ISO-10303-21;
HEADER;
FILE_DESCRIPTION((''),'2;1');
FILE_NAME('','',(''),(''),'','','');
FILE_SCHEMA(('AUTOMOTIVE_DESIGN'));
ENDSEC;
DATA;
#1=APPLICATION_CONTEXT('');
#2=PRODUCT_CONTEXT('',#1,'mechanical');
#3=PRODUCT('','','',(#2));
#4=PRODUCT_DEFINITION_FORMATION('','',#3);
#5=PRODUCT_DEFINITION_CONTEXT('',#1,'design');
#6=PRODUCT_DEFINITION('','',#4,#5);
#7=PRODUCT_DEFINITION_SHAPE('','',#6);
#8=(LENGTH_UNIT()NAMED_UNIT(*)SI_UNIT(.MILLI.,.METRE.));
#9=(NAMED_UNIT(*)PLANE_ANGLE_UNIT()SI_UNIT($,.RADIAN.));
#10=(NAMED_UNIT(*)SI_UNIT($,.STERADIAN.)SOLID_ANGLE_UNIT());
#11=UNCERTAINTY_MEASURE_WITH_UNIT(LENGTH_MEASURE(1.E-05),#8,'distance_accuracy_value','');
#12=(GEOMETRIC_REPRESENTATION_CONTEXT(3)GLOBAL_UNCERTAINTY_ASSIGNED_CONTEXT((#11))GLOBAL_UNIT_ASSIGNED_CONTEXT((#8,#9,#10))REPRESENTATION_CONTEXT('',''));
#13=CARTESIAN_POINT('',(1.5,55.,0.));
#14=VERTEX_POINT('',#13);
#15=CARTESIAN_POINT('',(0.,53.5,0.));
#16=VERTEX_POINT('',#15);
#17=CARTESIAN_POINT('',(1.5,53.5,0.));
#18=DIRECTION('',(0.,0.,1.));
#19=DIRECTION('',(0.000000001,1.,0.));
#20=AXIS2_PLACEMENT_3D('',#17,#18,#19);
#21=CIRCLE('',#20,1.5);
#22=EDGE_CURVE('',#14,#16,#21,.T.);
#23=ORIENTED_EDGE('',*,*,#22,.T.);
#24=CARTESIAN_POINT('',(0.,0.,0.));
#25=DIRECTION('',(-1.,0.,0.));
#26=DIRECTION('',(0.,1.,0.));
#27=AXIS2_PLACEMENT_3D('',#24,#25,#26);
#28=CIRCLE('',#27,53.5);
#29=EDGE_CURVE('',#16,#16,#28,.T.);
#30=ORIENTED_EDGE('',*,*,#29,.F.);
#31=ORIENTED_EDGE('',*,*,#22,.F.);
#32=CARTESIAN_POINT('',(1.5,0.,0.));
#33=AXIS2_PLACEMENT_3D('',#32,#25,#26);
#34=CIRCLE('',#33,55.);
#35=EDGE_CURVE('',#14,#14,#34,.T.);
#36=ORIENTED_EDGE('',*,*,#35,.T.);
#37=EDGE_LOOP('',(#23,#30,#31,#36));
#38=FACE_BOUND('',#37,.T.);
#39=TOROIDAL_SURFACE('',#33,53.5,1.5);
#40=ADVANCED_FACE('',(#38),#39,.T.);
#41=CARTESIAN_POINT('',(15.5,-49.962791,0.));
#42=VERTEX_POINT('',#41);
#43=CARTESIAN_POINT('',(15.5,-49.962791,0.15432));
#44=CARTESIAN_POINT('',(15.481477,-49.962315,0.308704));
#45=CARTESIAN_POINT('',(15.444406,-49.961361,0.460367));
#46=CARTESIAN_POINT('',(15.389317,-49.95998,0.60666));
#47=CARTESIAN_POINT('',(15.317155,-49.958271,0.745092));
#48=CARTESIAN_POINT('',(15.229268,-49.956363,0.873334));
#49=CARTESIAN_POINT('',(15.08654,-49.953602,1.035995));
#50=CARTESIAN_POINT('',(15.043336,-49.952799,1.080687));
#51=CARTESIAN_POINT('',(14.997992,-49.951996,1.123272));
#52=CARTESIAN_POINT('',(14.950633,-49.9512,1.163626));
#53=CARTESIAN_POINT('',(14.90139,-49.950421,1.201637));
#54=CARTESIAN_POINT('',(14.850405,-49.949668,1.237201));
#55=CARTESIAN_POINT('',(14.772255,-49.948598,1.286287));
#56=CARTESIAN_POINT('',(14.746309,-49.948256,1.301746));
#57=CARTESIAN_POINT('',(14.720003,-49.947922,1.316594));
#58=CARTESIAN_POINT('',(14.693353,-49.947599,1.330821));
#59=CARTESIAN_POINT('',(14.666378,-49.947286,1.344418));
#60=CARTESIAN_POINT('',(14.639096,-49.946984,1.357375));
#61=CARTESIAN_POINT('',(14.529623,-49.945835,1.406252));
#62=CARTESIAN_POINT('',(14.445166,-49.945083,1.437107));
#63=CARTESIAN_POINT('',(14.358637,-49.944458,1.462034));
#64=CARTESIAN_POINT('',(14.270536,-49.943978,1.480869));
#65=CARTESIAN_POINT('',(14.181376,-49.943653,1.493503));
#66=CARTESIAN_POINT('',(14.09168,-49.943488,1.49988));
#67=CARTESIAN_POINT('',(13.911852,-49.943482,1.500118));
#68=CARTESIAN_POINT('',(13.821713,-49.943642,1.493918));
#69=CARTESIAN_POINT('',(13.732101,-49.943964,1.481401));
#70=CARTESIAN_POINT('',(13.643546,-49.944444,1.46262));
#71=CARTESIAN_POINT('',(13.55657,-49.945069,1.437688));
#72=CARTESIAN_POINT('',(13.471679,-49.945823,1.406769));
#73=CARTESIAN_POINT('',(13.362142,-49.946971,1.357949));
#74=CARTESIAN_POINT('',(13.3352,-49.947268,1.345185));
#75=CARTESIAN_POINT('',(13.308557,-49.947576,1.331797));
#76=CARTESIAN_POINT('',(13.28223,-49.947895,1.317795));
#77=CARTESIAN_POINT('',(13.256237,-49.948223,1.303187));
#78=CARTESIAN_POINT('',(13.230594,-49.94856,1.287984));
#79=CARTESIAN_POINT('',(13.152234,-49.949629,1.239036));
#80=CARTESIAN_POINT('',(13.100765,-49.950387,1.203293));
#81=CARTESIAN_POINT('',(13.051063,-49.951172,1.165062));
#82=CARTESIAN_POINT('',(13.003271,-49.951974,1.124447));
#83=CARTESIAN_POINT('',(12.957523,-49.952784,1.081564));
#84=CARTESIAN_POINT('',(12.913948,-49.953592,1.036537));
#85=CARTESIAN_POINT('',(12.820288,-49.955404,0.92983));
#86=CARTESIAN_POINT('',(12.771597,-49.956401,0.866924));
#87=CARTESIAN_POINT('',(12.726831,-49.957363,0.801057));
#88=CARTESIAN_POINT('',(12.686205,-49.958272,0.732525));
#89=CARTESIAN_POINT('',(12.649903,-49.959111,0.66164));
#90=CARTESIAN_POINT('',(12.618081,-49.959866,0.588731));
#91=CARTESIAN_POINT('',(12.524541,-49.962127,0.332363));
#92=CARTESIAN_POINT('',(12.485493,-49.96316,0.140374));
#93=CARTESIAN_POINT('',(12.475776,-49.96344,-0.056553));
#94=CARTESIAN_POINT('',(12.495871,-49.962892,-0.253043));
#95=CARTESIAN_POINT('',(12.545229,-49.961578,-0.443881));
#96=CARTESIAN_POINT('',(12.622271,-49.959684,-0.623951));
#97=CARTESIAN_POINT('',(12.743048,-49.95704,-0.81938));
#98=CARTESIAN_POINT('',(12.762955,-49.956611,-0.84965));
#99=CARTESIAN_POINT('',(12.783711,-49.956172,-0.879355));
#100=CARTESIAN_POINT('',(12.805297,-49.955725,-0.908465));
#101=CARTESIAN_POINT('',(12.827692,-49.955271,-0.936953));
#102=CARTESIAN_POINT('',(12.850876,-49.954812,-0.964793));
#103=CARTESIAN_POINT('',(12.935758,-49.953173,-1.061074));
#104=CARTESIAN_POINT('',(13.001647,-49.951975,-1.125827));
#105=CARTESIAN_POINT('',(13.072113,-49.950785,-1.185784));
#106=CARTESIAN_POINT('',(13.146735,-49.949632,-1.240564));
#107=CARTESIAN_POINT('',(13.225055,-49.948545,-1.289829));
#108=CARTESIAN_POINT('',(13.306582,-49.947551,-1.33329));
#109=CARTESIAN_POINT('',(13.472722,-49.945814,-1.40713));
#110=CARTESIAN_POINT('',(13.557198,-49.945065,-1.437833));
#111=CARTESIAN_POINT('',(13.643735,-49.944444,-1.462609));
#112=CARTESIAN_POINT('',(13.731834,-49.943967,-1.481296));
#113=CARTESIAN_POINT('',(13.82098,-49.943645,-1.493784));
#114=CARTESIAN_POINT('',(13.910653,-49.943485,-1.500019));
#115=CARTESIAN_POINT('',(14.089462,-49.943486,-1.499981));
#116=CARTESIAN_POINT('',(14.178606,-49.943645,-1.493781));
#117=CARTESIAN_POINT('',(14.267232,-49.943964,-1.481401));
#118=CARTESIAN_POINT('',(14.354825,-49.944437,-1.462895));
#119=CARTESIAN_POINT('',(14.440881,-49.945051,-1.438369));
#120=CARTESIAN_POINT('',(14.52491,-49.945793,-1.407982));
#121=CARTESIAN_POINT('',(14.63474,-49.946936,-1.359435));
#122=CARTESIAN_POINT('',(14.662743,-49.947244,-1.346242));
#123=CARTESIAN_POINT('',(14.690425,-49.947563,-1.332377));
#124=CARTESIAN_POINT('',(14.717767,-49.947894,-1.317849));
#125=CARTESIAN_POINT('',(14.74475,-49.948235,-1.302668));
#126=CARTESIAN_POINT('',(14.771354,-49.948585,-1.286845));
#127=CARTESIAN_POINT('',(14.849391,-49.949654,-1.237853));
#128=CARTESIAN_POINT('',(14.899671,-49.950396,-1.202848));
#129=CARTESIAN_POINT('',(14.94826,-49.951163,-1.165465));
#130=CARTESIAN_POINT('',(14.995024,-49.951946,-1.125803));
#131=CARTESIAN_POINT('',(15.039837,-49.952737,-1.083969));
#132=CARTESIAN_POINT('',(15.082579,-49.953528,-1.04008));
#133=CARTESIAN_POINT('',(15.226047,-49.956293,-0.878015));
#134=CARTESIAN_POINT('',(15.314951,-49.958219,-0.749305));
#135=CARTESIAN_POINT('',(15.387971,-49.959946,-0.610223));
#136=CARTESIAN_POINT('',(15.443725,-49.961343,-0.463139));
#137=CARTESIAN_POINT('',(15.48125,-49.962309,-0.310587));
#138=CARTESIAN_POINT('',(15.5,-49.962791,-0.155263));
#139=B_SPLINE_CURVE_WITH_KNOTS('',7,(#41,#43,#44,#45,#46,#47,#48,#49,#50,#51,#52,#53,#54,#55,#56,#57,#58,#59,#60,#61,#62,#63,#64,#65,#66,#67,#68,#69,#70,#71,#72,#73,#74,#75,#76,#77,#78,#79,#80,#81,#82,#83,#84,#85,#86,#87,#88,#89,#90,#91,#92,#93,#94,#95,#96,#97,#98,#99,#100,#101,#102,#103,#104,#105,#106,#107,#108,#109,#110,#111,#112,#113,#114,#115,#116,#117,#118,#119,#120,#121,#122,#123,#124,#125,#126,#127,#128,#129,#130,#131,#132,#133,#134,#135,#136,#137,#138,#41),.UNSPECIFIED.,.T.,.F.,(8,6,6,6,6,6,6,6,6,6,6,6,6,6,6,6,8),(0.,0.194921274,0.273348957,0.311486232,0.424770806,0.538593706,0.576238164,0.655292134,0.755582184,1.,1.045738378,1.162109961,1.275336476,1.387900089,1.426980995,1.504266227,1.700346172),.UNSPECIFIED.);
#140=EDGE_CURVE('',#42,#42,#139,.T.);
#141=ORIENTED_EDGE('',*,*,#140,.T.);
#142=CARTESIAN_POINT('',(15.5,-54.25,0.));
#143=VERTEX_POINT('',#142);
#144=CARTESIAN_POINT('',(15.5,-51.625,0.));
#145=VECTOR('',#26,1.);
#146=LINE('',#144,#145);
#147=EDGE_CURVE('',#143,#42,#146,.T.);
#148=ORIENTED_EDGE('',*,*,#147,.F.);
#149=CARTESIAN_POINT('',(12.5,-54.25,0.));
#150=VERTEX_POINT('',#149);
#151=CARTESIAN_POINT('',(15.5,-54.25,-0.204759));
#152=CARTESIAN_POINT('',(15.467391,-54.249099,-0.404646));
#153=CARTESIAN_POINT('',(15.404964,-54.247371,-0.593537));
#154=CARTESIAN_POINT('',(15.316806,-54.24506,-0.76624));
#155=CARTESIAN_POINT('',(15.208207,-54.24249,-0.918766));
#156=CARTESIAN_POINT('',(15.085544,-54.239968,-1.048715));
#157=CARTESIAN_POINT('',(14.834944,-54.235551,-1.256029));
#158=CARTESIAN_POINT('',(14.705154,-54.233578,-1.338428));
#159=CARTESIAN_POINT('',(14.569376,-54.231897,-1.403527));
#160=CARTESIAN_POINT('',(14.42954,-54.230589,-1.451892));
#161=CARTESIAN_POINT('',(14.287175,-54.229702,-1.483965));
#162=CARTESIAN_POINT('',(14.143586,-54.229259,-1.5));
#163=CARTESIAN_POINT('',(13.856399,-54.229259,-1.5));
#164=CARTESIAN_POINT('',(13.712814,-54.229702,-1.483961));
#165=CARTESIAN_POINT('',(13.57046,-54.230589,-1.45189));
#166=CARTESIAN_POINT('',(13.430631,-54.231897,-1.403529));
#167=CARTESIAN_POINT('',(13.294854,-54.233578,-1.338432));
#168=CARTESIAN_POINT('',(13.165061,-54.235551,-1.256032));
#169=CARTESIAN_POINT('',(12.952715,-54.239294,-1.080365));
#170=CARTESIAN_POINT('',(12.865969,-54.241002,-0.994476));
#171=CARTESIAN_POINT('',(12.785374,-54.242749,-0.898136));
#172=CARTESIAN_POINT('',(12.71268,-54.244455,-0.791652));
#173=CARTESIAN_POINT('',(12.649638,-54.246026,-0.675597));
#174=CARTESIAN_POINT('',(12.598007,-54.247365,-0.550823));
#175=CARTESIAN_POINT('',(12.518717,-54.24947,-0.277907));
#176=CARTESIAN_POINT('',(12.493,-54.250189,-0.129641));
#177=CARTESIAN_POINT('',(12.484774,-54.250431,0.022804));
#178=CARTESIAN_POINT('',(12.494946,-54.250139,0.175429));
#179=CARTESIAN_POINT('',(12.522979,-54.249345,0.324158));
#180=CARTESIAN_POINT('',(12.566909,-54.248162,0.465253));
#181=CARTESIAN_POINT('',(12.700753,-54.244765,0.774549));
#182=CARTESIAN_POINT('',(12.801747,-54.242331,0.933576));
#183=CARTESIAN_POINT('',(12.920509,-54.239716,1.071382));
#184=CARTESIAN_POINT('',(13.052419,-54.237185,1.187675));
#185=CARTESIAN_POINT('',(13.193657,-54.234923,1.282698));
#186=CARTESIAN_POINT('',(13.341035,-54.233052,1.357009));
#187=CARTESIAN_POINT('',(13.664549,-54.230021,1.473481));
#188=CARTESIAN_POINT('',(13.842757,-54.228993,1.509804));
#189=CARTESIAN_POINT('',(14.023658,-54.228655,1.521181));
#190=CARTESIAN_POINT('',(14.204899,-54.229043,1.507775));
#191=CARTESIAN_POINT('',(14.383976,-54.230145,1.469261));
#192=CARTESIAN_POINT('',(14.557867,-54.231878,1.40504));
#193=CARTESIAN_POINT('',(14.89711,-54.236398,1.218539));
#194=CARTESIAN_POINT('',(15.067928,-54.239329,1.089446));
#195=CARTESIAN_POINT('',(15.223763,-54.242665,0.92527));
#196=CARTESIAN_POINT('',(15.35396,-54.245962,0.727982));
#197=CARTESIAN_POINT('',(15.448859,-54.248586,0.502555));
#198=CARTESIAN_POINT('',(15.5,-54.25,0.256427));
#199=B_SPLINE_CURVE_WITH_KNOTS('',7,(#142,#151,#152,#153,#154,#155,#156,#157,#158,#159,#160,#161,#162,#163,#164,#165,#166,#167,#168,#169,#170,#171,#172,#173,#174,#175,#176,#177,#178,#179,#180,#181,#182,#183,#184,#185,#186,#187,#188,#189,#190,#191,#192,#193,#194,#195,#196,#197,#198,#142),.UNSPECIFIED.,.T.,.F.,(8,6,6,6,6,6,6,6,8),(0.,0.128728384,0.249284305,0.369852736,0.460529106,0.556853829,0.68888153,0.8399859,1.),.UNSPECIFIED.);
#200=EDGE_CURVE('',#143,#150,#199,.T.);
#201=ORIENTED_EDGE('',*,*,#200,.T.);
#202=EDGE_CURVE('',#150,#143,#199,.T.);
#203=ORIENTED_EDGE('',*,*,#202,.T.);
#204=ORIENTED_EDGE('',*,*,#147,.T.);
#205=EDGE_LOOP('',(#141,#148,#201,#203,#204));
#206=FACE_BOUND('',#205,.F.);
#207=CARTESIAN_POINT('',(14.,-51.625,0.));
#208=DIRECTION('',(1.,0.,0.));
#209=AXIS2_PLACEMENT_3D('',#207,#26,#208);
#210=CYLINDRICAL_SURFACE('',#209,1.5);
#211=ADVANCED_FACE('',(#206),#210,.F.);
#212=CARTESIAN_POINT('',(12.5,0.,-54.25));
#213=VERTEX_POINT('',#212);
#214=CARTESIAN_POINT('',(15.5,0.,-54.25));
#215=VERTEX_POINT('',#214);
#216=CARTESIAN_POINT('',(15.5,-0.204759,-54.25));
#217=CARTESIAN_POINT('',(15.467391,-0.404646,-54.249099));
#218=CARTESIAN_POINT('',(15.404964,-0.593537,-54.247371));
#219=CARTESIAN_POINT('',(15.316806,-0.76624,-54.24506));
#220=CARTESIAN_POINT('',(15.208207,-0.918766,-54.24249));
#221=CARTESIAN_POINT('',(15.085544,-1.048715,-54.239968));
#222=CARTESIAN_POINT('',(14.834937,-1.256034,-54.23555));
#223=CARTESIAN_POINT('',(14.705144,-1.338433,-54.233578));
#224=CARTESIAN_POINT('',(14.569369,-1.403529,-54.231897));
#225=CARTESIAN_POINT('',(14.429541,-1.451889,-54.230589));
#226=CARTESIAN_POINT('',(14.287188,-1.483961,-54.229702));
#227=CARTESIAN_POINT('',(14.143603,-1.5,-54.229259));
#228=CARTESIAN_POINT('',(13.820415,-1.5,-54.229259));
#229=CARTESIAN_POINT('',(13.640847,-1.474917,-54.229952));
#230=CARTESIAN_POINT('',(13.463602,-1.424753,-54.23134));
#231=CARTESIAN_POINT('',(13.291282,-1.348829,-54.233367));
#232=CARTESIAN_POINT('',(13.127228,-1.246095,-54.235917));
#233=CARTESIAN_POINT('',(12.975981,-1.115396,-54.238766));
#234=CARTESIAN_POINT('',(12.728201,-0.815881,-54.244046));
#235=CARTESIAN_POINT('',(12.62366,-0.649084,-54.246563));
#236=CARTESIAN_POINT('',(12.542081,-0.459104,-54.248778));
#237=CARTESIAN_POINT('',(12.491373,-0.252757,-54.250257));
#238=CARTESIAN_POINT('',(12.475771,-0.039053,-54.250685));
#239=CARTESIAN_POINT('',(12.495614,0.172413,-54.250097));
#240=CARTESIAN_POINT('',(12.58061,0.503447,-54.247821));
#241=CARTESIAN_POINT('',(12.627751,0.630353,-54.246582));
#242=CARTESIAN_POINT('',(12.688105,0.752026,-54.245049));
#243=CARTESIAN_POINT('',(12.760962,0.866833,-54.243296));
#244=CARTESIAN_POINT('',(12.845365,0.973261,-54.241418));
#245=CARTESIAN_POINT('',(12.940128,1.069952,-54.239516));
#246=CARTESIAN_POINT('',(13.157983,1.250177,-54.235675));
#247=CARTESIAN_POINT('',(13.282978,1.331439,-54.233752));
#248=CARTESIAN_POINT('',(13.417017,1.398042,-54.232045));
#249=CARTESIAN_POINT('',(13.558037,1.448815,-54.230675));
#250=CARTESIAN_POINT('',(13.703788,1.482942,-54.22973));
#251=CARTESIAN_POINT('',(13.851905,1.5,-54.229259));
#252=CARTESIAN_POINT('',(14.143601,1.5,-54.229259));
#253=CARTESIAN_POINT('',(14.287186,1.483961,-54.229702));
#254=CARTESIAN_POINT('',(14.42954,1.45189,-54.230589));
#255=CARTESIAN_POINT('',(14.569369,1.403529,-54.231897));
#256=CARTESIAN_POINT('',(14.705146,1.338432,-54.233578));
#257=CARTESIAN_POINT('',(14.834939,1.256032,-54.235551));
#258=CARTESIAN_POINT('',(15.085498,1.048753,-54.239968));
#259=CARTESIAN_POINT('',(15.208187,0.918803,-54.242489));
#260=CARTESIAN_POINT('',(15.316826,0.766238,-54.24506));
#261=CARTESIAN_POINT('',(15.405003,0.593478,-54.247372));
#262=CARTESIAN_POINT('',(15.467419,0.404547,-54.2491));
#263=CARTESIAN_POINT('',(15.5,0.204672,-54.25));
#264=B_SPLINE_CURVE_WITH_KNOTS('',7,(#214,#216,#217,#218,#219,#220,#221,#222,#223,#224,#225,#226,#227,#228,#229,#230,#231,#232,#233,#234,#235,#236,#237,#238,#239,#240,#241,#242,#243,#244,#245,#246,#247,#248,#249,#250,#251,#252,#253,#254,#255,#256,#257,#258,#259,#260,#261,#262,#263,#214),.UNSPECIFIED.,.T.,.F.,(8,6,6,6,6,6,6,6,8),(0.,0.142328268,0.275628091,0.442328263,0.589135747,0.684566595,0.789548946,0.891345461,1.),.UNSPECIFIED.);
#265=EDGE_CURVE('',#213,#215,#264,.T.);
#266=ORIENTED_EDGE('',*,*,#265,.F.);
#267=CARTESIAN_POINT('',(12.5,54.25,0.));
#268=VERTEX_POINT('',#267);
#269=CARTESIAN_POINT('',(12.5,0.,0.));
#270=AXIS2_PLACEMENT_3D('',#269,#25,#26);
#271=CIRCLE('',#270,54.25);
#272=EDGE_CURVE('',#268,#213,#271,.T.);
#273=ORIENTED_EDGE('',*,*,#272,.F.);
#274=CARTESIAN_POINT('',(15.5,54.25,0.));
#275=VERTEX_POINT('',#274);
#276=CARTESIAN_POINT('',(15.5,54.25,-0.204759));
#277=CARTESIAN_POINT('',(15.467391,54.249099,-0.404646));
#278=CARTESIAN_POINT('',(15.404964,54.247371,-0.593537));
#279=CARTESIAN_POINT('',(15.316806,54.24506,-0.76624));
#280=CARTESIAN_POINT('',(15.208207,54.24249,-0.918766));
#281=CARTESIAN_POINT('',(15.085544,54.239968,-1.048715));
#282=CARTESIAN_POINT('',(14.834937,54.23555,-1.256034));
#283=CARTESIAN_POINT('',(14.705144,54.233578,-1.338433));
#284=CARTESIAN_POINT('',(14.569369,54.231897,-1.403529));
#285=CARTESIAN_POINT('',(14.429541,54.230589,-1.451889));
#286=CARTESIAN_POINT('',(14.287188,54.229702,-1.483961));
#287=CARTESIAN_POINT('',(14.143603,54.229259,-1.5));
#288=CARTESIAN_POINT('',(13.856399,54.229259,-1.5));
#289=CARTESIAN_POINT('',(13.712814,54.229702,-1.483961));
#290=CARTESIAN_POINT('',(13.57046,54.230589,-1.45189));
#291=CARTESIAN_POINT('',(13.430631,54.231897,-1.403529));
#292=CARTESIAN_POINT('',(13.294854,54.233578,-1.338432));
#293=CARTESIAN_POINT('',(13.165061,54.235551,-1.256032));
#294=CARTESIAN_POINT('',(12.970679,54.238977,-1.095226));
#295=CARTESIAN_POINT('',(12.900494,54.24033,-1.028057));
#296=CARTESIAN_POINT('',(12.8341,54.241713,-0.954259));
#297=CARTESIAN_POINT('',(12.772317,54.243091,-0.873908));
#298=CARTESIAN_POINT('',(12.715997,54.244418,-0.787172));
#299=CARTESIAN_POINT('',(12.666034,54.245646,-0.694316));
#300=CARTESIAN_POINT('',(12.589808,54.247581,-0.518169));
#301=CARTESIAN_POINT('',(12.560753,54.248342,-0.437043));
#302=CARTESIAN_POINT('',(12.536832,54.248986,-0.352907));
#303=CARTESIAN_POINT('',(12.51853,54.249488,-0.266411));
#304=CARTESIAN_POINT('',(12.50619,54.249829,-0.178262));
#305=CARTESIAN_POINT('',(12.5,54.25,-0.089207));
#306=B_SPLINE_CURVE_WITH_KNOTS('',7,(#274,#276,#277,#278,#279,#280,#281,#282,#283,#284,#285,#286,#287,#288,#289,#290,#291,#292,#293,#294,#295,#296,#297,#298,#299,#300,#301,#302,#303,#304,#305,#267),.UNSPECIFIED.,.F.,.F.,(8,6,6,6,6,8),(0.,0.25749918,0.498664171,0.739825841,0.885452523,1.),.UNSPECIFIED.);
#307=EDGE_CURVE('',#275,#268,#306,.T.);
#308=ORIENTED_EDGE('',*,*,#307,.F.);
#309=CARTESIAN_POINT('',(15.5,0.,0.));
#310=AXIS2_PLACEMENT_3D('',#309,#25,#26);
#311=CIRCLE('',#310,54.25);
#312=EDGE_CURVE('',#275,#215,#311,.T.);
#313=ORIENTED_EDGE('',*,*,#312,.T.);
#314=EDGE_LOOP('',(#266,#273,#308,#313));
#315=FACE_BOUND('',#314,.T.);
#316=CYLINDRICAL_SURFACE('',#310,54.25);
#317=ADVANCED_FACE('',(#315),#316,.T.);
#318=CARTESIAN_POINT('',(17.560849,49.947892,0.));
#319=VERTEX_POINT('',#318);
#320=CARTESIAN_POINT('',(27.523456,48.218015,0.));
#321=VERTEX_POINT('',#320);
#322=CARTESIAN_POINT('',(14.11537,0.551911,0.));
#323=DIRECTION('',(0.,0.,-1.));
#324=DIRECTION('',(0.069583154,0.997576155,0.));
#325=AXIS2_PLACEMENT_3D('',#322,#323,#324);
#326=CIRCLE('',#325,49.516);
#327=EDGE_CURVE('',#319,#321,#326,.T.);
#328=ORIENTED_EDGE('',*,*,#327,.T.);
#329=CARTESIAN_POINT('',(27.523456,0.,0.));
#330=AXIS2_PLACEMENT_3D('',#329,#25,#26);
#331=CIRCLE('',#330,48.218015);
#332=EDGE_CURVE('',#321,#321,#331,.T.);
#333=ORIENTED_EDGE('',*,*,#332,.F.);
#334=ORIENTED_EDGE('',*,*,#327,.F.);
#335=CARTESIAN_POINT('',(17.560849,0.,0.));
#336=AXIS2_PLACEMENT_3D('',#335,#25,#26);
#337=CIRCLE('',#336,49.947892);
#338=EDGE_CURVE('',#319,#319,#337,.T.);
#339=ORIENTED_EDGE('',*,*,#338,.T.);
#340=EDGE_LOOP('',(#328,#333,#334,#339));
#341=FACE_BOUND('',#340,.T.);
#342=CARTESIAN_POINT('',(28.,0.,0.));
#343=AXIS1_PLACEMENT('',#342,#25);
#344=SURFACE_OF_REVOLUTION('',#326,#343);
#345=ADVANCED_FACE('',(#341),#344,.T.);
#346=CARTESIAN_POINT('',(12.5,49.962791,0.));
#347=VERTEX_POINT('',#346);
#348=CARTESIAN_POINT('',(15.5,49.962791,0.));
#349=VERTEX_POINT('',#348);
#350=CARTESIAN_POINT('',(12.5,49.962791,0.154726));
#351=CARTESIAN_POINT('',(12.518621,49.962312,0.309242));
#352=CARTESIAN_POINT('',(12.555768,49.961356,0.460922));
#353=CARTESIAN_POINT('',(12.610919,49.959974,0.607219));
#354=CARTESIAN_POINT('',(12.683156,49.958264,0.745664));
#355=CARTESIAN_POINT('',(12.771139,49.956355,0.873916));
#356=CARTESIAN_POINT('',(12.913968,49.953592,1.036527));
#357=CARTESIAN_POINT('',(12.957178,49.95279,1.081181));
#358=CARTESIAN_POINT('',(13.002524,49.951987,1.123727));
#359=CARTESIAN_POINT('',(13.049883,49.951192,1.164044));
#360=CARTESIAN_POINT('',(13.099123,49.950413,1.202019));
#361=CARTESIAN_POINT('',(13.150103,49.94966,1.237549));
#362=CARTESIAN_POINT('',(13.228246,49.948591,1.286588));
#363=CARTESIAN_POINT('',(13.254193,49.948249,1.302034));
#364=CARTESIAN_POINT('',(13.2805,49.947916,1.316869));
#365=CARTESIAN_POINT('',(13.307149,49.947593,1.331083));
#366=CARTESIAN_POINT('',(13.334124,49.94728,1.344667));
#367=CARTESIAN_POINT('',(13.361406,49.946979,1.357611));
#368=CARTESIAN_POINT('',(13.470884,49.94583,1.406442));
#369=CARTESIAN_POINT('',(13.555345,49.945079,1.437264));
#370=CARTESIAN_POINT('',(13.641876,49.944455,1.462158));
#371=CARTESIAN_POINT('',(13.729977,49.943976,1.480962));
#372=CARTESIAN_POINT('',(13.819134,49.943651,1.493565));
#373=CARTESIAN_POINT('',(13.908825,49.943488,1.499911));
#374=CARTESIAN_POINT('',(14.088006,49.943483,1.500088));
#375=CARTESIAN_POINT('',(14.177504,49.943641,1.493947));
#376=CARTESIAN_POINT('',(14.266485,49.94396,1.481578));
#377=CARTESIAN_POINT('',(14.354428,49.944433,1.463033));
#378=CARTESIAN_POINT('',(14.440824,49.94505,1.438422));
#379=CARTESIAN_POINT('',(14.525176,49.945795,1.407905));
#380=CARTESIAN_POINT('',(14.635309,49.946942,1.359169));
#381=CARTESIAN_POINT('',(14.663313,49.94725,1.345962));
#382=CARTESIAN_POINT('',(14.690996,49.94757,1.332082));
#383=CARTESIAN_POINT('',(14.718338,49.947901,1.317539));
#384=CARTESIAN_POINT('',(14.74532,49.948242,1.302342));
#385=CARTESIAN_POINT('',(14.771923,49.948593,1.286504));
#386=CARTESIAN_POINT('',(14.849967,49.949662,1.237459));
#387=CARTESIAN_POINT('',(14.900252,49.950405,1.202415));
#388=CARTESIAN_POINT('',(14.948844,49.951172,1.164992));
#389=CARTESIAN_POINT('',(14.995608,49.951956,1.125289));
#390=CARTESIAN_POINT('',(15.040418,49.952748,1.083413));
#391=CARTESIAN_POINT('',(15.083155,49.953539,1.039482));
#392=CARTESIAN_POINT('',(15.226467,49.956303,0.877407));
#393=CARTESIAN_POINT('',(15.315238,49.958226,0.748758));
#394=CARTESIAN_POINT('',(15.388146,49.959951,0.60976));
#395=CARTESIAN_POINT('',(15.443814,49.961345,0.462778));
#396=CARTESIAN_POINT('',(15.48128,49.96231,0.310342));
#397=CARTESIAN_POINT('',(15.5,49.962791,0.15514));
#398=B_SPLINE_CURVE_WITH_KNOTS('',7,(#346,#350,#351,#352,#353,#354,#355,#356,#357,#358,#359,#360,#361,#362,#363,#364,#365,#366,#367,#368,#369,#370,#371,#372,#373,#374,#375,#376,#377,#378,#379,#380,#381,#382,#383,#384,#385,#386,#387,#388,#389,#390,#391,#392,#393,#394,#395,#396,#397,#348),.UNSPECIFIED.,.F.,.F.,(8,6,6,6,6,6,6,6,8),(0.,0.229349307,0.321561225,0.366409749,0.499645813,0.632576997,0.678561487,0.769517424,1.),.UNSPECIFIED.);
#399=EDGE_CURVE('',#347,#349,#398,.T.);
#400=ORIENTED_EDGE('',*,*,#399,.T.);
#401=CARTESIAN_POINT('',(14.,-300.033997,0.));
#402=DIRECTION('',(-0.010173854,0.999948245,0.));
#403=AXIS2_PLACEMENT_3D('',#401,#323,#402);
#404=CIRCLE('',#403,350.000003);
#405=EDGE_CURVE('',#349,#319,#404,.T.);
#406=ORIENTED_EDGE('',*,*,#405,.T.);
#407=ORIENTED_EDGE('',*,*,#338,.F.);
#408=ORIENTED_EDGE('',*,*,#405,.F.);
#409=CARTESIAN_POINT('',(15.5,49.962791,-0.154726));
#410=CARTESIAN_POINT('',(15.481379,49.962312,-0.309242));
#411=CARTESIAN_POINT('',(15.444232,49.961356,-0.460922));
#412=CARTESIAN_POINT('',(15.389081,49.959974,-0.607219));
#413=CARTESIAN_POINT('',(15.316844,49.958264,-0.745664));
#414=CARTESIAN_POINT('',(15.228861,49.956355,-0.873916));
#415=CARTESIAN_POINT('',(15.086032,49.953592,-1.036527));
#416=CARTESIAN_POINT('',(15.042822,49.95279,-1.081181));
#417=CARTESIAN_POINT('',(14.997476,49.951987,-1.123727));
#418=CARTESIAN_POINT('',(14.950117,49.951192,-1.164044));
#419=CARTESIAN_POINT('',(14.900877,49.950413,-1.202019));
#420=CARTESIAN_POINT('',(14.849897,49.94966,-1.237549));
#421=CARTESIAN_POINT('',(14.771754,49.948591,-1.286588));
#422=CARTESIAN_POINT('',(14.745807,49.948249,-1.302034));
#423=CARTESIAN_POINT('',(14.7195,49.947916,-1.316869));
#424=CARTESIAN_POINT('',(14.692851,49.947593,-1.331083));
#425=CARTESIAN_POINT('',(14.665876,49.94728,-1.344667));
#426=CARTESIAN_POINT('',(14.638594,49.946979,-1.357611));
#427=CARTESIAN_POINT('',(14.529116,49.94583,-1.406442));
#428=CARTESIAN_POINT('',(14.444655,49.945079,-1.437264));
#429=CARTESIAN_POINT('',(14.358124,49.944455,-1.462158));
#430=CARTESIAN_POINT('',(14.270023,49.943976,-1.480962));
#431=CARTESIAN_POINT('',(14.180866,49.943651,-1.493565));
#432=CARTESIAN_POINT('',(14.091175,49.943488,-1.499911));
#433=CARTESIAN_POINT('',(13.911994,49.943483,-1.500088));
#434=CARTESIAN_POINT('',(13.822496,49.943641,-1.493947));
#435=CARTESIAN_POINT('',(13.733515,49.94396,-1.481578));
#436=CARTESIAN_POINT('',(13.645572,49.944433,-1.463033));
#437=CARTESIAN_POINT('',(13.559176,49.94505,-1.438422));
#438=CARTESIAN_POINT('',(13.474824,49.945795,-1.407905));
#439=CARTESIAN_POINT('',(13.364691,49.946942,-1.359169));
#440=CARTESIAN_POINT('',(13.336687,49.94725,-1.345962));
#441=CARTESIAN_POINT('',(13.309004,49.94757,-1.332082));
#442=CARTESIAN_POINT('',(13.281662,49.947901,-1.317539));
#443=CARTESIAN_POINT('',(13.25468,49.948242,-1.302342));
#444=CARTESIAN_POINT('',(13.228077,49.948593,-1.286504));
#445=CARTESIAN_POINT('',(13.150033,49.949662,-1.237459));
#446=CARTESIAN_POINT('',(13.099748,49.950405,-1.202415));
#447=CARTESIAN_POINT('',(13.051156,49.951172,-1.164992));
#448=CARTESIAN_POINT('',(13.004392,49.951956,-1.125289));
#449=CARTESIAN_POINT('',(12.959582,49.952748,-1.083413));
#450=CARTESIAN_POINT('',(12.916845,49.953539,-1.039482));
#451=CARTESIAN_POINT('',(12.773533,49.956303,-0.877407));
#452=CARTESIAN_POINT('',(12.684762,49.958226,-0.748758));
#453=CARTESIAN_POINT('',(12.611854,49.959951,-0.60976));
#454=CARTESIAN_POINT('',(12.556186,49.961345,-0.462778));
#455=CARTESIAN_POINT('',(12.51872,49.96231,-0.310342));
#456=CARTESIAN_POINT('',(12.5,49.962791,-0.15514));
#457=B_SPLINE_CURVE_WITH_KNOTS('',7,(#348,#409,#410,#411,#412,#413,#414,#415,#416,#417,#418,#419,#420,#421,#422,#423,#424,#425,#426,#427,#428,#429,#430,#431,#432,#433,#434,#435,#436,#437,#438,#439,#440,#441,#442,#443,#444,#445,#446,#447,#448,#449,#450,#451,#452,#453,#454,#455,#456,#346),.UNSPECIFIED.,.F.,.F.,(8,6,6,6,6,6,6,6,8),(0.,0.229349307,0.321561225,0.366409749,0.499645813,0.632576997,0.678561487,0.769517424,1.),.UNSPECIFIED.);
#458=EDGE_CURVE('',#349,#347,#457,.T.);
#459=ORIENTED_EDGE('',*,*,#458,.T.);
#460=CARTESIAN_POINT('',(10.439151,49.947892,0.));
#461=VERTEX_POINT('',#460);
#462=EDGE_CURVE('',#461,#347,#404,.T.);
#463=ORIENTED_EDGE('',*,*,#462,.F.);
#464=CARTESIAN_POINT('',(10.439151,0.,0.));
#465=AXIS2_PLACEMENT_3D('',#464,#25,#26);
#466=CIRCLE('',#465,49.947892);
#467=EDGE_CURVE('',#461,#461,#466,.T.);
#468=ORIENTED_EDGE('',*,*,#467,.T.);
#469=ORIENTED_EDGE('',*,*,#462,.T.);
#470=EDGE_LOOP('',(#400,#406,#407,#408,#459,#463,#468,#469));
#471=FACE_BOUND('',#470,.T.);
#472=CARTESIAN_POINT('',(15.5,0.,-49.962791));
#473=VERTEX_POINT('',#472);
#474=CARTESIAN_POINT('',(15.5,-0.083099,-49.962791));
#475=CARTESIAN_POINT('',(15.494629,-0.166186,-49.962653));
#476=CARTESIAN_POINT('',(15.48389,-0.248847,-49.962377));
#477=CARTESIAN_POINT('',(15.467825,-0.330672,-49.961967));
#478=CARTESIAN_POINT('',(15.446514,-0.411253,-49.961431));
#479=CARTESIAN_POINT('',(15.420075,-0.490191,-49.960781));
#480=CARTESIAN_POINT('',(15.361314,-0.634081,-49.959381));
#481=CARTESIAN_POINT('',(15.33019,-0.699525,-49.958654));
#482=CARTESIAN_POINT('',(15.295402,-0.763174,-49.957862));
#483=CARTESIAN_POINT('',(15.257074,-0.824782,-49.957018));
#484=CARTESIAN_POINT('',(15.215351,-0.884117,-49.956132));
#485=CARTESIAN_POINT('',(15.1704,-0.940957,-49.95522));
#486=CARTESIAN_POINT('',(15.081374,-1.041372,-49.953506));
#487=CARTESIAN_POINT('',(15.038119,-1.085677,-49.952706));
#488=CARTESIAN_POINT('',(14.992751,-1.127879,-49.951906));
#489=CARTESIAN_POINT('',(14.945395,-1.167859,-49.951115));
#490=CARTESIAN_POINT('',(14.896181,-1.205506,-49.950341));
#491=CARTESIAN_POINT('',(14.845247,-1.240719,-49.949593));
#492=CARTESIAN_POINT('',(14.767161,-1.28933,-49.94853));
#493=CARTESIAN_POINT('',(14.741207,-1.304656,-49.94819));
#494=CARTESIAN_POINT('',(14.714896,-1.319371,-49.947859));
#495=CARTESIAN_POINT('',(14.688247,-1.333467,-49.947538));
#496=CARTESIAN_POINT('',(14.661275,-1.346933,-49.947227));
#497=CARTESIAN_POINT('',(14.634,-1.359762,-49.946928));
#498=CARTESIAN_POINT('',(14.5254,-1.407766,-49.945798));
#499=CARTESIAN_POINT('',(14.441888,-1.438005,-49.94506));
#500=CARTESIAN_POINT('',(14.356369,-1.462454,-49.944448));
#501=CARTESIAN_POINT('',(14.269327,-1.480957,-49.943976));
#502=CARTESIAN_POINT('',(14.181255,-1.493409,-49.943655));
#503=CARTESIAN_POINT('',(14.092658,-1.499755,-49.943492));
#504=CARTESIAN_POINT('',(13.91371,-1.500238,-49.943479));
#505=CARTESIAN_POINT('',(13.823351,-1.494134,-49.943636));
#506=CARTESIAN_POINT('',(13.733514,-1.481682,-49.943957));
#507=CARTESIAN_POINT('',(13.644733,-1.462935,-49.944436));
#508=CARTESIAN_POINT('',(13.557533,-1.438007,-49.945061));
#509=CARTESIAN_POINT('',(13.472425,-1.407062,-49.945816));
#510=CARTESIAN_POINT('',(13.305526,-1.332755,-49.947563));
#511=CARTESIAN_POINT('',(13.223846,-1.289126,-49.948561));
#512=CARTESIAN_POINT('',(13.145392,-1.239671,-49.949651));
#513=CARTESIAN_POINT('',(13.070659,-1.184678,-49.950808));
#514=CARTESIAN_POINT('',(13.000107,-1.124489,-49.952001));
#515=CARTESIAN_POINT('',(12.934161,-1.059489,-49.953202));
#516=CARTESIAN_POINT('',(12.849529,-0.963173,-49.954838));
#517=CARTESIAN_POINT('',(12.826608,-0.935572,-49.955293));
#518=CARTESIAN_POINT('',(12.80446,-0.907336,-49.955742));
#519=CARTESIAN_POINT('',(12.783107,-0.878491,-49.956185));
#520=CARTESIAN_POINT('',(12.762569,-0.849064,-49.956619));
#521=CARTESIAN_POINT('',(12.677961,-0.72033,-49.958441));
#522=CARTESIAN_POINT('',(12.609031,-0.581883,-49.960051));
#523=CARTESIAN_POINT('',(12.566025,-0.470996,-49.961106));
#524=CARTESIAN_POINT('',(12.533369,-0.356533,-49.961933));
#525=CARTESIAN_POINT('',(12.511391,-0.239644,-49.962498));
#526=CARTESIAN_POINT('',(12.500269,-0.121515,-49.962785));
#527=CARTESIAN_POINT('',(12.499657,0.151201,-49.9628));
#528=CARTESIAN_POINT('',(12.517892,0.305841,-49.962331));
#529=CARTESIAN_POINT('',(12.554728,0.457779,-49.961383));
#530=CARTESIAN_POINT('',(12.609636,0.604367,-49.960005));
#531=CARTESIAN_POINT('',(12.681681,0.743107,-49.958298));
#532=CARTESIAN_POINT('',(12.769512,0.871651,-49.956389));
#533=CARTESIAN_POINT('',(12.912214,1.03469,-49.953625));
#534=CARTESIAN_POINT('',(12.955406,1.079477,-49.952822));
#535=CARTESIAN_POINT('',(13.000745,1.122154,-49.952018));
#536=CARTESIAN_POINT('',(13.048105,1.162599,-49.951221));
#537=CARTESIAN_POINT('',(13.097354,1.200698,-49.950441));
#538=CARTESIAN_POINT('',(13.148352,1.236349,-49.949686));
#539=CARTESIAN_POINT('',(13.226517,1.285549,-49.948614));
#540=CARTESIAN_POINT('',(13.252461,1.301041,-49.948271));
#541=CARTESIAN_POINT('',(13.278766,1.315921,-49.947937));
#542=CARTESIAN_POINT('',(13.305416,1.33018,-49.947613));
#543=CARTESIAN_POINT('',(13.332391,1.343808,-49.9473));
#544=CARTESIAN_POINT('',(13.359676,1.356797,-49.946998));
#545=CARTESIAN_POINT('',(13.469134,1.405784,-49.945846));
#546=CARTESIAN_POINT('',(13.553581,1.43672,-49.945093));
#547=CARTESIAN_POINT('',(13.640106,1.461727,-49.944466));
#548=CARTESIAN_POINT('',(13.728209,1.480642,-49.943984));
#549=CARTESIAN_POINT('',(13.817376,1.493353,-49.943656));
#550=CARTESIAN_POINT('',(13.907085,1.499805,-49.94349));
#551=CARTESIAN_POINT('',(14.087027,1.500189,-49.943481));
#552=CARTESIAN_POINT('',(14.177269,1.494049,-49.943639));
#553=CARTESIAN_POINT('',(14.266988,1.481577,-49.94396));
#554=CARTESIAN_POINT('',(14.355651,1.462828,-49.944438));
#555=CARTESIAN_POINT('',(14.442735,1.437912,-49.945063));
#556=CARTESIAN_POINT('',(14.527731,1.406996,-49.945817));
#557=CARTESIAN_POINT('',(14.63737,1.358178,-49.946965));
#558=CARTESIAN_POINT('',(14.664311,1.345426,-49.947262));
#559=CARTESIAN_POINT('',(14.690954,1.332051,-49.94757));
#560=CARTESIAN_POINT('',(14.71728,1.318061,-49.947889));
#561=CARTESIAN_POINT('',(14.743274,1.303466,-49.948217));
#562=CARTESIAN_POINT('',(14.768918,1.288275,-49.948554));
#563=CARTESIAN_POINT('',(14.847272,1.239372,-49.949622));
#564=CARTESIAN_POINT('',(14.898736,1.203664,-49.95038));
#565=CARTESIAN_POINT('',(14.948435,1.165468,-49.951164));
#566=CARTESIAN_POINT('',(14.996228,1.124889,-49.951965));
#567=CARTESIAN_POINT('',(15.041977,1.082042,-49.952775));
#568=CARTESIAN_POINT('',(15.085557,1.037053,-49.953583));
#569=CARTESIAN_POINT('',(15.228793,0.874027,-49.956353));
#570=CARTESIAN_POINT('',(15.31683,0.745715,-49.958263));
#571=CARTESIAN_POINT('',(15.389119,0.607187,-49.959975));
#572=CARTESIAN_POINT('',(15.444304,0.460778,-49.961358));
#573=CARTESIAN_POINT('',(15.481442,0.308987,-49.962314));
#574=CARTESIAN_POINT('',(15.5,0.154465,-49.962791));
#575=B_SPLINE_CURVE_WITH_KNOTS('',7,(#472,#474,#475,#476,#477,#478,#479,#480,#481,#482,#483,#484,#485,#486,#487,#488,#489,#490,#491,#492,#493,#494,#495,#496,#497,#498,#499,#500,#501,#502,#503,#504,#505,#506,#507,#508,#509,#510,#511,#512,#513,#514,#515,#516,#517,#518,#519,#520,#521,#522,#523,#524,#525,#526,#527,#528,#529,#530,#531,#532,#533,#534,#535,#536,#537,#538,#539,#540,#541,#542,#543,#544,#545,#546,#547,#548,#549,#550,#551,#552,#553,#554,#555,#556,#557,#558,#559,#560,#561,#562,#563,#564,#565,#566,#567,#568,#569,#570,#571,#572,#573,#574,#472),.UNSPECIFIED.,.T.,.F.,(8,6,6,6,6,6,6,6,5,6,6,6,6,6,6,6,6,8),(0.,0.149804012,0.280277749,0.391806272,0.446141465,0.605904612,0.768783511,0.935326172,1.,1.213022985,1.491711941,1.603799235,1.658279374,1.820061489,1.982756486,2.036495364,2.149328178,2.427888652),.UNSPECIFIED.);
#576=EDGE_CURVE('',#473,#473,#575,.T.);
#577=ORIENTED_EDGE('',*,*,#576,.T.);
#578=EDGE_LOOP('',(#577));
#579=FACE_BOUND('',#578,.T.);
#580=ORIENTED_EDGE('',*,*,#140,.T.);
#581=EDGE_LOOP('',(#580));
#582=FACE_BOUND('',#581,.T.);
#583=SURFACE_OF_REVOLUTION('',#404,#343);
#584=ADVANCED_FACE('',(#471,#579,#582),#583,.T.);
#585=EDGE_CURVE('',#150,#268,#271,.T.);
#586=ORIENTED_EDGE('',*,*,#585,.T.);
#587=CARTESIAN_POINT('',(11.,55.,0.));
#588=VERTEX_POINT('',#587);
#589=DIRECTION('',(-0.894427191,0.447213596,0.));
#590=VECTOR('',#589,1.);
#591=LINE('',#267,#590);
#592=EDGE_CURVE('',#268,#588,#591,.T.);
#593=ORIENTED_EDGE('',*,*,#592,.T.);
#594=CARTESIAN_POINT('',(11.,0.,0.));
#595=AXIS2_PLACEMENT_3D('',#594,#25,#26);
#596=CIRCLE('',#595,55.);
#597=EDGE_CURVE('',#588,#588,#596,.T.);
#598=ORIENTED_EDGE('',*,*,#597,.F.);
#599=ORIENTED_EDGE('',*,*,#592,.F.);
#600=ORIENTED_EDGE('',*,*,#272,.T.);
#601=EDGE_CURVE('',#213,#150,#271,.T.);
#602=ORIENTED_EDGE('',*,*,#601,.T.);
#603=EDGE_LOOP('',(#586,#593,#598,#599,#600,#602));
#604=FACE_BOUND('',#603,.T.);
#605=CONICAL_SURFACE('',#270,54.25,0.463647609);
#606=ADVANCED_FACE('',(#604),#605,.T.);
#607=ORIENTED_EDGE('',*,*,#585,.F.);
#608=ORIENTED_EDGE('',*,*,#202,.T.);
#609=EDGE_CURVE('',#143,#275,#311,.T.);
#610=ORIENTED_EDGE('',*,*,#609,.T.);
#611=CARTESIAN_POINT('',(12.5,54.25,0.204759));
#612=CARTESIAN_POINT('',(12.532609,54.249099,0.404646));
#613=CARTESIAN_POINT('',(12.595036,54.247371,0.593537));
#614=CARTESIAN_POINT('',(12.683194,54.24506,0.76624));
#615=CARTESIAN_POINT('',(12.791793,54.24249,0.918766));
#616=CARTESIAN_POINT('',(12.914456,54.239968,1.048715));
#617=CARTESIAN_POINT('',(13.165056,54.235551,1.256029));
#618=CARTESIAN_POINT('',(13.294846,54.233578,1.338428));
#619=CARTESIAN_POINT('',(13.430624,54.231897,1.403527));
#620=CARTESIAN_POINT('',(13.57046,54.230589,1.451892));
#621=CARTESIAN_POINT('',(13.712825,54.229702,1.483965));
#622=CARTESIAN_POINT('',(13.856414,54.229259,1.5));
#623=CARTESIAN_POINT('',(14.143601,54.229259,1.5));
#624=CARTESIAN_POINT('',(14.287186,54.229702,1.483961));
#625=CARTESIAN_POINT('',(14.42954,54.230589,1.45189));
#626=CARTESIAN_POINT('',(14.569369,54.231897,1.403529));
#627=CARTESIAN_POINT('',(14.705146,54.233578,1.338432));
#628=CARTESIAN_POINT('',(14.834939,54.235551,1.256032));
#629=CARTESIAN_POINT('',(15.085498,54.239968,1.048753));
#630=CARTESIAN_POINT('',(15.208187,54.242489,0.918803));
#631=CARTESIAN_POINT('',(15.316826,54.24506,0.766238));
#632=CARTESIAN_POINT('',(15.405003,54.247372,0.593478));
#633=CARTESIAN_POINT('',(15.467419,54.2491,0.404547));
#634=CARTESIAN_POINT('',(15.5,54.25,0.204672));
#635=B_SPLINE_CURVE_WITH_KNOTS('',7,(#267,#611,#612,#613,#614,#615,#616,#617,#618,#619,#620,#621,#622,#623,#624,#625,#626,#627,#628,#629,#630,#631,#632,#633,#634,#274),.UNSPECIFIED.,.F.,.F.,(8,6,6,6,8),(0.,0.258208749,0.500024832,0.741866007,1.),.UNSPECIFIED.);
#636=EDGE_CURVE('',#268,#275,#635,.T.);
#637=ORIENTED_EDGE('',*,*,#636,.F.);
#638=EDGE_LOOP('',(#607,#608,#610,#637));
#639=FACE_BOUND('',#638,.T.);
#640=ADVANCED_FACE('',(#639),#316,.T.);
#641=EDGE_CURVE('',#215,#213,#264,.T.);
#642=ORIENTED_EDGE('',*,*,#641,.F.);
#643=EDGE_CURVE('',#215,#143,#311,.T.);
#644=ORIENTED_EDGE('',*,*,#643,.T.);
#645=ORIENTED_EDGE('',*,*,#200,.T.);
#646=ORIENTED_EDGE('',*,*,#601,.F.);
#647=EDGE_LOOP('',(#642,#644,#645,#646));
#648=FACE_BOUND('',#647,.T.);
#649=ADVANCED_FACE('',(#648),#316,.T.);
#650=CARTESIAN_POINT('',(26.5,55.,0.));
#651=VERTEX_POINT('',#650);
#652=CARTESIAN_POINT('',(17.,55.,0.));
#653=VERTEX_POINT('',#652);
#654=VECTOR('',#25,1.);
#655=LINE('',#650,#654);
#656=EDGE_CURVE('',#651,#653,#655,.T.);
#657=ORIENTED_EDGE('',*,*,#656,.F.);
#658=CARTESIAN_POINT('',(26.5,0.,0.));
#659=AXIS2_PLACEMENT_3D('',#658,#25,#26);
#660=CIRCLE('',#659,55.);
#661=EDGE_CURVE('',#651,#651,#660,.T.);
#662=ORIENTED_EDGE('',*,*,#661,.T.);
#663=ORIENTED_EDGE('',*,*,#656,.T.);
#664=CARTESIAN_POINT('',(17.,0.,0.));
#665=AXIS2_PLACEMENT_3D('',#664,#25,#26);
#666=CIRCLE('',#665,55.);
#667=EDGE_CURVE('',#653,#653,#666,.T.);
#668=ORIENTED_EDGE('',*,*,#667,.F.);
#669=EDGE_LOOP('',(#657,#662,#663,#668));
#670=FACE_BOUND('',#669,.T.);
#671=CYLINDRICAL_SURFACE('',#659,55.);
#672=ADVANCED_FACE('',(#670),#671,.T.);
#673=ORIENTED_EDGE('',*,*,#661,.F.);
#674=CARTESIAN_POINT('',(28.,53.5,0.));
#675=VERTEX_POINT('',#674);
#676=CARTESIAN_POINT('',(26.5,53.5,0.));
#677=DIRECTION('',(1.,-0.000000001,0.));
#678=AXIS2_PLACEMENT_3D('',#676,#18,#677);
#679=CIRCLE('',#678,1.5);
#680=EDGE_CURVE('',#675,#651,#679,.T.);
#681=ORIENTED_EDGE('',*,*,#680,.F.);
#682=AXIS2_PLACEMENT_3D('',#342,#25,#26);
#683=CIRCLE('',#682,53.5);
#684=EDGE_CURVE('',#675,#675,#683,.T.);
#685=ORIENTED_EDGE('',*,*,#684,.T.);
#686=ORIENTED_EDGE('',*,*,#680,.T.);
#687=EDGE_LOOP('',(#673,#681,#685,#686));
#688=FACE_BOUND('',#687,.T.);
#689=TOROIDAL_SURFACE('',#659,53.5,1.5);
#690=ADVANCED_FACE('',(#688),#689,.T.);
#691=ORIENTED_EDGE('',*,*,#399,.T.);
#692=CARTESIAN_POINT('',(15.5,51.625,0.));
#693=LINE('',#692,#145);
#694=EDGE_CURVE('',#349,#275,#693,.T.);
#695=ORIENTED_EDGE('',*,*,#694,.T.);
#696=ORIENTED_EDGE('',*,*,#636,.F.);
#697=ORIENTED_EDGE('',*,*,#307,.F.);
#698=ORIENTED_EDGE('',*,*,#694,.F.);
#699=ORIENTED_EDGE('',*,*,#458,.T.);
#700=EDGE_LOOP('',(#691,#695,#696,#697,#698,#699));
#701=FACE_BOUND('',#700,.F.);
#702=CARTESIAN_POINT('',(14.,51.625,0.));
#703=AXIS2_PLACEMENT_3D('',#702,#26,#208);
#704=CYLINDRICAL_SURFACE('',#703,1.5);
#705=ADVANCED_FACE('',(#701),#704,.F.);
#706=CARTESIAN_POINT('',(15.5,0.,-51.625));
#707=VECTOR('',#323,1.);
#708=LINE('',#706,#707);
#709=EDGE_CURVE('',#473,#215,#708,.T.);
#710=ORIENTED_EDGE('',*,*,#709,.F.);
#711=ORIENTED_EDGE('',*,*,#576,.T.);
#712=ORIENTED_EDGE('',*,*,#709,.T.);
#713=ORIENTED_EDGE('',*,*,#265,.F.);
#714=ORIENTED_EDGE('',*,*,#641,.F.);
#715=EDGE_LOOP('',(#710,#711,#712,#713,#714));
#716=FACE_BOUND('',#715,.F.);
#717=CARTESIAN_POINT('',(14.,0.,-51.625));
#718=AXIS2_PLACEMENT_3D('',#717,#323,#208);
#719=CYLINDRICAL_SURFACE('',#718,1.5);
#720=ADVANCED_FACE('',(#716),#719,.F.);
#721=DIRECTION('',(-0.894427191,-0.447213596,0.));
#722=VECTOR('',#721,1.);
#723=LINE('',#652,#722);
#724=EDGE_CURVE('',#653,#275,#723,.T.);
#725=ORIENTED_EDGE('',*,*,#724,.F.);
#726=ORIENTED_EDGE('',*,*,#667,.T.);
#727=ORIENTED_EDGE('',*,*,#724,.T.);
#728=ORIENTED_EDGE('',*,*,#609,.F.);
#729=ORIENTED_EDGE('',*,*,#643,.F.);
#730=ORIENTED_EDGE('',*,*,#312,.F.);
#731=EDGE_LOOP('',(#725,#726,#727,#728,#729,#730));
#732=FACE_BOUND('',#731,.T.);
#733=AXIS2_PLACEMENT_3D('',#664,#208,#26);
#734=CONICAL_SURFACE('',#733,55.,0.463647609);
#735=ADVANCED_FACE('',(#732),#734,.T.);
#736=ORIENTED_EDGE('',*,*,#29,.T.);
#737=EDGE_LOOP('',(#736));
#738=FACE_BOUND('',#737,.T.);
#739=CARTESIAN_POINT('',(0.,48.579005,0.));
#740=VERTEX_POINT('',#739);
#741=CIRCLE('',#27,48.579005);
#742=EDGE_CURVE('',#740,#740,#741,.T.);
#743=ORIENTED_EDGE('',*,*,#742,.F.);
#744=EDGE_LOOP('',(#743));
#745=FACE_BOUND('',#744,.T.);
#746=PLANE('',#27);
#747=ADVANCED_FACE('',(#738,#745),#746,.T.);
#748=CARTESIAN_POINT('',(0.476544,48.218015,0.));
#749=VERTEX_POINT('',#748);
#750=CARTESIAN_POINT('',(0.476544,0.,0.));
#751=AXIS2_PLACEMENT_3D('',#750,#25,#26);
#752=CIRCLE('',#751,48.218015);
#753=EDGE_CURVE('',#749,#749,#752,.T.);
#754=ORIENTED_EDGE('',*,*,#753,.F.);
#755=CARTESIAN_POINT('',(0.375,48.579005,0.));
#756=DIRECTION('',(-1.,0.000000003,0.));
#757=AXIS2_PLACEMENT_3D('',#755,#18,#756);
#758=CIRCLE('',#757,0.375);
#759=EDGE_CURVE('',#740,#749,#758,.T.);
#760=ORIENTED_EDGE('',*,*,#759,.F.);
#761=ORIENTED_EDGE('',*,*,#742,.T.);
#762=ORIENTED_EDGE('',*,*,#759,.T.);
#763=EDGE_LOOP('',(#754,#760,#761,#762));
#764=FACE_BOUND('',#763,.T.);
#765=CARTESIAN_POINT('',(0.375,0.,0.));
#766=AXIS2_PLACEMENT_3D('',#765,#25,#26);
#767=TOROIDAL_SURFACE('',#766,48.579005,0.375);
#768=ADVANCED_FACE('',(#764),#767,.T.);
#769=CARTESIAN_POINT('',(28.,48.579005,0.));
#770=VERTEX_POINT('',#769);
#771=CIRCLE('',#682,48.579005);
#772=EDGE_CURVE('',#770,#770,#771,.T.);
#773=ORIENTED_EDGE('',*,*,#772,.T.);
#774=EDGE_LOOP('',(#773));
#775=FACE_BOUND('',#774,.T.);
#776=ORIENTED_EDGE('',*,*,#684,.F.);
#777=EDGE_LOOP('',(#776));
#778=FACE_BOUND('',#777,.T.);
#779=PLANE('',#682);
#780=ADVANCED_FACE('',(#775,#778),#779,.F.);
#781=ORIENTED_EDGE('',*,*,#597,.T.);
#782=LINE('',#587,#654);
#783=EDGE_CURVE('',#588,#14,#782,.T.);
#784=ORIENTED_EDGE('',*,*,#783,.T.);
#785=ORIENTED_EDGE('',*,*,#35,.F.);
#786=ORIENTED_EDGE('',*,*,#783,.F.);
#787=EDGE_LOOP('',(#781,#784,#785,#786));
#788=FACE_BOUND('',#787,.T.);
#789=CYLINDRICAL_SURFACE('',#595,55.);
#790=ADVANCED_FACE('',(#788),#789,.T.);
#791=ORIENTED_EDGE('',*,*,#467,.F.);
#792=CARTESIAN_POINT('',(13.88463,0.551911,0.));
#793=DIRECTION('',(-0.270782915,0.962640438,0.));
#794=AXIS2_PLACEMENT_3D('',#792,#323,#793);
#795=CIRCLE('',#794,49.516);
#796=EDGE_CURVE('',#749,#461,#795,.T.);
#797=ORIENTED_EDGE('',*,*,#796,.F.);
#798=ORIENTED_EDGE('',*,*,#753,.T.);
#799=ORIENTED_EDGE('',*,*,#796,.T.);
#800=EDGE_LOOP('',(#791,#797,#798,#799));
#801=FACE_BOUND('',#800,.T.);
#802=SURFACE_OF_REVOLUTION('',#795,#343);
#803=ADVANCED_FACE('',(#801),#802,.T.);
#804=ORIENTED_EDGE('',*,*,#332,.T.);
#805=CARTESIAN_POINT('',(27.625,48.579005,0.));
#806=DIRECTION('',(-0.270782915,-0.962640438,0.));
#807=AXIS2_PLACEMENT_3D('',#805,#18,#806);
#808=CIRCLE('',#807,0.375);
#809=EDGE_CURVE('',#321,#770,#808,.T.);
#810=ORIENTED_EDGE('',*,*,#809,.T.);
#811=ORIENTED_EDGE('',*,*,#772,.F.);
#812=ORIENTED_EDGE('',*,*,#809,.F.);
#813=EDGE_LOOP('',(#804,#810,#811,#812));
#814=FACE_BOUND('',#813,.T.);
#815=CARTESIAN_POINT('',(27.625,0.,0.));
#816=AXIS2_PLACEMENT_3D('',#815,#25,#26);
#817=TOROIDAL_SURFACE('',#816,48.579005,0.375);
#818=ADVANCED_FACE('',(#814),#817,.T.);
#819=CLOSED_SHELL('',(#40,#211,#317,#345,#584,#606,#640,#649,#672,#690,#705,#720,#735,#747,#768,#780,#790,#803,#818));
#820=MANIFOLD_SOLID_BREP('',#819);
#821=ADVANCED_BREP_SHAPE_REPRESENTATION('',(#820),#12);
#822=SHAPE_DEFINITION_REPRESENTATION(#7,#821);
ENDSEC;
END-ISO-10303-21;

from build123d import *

# Parameters (mm, degrees)
SKETCH2_W = 1.5
SKETCH2_H = 6.75
SKETCH3_W = 1.5
SKETCH3_H = 6.75
SKETCH4_W = 1.5
SKETCH4_H = 6.75


with BuildPart() as part:
    # Sketch1 → Revolve1 (revolve)
    with BuildSketch(Plane.XY):
        with BuildLine():
            Line((28, 48.579004742), (28, 53.5))
            ThreePointArc((28, 53.5), (27.560660172, 54.560660172), (26.5, 55))
            Line((26.5, 55), (17, 55))
            Line((17, 55), (15.5, 54.25))
            Line((15.5, 54.25), (12.5, 54.25))
            Line((12.5, 54.25), (11, 55))
            Line((11, 55), (1.5, 55))
            ThreePointArc((1.5, 55), (0.439339828, 54.560660172), (0, 53.5))
            Line((0, 53.5), (0, 48.579004742))
            ThreePointArc((0, 48.579004742), (0.14856441, 48.28008682), (0.476543593, 48.218014577))
            ThreePointArc((0.476543593, 48.218014577), (5.413574266, 49.337927742), (10.439151002, 49.947891537))
            ThreePointArc((10.439151002, 49.947891537), (14, 49.966005785), (17.560848998, 49.947891537))
            ThreePointArc((17.560848998, 49.947891537), (22.586425734, 49.337927742), (27.523456407, 48.218014577))
            ThreePointArc((27.523456407, 48.218014577), (27.85143559, 48.28008682), (28, 48.579004742))
        make_face()
    revolve(axis=Axis((28, 0, 0), (-1, 0, 0)))

    # Sketch2 → Cut-Revolve1 (revolve, cut)
    with BuildSketch(Plane.XY):
        with Locations((14.75, -51.625)):
            Rectangle(SKETCH2_W, SKETCH2_H)
    revolve(axis=Axis((14, -55, 0), (0, 1, 0)), mode=Mode.SUBTRACT)

    # Sketch3 → Cut-Revolve2 (revolve, cut)
    with BuildSketch(Plane(origin=(0, 0, 0), x_dir=(1, 0, 0), z_dir=(0, 1, 0))):
        with Locations((14.75, 51.625)):
            Rectangle(SKETCH3_W, SKETCH3_H)
    revolve(axis=Axis((14, 0, -48.25), (0, 0, -1)), mode=Mode.SUBTRACT)

    # Sketch4 → Cut-Revolve3 (revolve, cut)
    with BuildSketch(Plane.XY):
        with Locations((14.75, 51.625)):
            Rectangle(SKETCH4_W, SKETCH4_H)
    revolve(axis=Axis((14, 48.25, 0), (0, 1, 0)), mode=Mode.SUBTRACT)


solid = part.part
